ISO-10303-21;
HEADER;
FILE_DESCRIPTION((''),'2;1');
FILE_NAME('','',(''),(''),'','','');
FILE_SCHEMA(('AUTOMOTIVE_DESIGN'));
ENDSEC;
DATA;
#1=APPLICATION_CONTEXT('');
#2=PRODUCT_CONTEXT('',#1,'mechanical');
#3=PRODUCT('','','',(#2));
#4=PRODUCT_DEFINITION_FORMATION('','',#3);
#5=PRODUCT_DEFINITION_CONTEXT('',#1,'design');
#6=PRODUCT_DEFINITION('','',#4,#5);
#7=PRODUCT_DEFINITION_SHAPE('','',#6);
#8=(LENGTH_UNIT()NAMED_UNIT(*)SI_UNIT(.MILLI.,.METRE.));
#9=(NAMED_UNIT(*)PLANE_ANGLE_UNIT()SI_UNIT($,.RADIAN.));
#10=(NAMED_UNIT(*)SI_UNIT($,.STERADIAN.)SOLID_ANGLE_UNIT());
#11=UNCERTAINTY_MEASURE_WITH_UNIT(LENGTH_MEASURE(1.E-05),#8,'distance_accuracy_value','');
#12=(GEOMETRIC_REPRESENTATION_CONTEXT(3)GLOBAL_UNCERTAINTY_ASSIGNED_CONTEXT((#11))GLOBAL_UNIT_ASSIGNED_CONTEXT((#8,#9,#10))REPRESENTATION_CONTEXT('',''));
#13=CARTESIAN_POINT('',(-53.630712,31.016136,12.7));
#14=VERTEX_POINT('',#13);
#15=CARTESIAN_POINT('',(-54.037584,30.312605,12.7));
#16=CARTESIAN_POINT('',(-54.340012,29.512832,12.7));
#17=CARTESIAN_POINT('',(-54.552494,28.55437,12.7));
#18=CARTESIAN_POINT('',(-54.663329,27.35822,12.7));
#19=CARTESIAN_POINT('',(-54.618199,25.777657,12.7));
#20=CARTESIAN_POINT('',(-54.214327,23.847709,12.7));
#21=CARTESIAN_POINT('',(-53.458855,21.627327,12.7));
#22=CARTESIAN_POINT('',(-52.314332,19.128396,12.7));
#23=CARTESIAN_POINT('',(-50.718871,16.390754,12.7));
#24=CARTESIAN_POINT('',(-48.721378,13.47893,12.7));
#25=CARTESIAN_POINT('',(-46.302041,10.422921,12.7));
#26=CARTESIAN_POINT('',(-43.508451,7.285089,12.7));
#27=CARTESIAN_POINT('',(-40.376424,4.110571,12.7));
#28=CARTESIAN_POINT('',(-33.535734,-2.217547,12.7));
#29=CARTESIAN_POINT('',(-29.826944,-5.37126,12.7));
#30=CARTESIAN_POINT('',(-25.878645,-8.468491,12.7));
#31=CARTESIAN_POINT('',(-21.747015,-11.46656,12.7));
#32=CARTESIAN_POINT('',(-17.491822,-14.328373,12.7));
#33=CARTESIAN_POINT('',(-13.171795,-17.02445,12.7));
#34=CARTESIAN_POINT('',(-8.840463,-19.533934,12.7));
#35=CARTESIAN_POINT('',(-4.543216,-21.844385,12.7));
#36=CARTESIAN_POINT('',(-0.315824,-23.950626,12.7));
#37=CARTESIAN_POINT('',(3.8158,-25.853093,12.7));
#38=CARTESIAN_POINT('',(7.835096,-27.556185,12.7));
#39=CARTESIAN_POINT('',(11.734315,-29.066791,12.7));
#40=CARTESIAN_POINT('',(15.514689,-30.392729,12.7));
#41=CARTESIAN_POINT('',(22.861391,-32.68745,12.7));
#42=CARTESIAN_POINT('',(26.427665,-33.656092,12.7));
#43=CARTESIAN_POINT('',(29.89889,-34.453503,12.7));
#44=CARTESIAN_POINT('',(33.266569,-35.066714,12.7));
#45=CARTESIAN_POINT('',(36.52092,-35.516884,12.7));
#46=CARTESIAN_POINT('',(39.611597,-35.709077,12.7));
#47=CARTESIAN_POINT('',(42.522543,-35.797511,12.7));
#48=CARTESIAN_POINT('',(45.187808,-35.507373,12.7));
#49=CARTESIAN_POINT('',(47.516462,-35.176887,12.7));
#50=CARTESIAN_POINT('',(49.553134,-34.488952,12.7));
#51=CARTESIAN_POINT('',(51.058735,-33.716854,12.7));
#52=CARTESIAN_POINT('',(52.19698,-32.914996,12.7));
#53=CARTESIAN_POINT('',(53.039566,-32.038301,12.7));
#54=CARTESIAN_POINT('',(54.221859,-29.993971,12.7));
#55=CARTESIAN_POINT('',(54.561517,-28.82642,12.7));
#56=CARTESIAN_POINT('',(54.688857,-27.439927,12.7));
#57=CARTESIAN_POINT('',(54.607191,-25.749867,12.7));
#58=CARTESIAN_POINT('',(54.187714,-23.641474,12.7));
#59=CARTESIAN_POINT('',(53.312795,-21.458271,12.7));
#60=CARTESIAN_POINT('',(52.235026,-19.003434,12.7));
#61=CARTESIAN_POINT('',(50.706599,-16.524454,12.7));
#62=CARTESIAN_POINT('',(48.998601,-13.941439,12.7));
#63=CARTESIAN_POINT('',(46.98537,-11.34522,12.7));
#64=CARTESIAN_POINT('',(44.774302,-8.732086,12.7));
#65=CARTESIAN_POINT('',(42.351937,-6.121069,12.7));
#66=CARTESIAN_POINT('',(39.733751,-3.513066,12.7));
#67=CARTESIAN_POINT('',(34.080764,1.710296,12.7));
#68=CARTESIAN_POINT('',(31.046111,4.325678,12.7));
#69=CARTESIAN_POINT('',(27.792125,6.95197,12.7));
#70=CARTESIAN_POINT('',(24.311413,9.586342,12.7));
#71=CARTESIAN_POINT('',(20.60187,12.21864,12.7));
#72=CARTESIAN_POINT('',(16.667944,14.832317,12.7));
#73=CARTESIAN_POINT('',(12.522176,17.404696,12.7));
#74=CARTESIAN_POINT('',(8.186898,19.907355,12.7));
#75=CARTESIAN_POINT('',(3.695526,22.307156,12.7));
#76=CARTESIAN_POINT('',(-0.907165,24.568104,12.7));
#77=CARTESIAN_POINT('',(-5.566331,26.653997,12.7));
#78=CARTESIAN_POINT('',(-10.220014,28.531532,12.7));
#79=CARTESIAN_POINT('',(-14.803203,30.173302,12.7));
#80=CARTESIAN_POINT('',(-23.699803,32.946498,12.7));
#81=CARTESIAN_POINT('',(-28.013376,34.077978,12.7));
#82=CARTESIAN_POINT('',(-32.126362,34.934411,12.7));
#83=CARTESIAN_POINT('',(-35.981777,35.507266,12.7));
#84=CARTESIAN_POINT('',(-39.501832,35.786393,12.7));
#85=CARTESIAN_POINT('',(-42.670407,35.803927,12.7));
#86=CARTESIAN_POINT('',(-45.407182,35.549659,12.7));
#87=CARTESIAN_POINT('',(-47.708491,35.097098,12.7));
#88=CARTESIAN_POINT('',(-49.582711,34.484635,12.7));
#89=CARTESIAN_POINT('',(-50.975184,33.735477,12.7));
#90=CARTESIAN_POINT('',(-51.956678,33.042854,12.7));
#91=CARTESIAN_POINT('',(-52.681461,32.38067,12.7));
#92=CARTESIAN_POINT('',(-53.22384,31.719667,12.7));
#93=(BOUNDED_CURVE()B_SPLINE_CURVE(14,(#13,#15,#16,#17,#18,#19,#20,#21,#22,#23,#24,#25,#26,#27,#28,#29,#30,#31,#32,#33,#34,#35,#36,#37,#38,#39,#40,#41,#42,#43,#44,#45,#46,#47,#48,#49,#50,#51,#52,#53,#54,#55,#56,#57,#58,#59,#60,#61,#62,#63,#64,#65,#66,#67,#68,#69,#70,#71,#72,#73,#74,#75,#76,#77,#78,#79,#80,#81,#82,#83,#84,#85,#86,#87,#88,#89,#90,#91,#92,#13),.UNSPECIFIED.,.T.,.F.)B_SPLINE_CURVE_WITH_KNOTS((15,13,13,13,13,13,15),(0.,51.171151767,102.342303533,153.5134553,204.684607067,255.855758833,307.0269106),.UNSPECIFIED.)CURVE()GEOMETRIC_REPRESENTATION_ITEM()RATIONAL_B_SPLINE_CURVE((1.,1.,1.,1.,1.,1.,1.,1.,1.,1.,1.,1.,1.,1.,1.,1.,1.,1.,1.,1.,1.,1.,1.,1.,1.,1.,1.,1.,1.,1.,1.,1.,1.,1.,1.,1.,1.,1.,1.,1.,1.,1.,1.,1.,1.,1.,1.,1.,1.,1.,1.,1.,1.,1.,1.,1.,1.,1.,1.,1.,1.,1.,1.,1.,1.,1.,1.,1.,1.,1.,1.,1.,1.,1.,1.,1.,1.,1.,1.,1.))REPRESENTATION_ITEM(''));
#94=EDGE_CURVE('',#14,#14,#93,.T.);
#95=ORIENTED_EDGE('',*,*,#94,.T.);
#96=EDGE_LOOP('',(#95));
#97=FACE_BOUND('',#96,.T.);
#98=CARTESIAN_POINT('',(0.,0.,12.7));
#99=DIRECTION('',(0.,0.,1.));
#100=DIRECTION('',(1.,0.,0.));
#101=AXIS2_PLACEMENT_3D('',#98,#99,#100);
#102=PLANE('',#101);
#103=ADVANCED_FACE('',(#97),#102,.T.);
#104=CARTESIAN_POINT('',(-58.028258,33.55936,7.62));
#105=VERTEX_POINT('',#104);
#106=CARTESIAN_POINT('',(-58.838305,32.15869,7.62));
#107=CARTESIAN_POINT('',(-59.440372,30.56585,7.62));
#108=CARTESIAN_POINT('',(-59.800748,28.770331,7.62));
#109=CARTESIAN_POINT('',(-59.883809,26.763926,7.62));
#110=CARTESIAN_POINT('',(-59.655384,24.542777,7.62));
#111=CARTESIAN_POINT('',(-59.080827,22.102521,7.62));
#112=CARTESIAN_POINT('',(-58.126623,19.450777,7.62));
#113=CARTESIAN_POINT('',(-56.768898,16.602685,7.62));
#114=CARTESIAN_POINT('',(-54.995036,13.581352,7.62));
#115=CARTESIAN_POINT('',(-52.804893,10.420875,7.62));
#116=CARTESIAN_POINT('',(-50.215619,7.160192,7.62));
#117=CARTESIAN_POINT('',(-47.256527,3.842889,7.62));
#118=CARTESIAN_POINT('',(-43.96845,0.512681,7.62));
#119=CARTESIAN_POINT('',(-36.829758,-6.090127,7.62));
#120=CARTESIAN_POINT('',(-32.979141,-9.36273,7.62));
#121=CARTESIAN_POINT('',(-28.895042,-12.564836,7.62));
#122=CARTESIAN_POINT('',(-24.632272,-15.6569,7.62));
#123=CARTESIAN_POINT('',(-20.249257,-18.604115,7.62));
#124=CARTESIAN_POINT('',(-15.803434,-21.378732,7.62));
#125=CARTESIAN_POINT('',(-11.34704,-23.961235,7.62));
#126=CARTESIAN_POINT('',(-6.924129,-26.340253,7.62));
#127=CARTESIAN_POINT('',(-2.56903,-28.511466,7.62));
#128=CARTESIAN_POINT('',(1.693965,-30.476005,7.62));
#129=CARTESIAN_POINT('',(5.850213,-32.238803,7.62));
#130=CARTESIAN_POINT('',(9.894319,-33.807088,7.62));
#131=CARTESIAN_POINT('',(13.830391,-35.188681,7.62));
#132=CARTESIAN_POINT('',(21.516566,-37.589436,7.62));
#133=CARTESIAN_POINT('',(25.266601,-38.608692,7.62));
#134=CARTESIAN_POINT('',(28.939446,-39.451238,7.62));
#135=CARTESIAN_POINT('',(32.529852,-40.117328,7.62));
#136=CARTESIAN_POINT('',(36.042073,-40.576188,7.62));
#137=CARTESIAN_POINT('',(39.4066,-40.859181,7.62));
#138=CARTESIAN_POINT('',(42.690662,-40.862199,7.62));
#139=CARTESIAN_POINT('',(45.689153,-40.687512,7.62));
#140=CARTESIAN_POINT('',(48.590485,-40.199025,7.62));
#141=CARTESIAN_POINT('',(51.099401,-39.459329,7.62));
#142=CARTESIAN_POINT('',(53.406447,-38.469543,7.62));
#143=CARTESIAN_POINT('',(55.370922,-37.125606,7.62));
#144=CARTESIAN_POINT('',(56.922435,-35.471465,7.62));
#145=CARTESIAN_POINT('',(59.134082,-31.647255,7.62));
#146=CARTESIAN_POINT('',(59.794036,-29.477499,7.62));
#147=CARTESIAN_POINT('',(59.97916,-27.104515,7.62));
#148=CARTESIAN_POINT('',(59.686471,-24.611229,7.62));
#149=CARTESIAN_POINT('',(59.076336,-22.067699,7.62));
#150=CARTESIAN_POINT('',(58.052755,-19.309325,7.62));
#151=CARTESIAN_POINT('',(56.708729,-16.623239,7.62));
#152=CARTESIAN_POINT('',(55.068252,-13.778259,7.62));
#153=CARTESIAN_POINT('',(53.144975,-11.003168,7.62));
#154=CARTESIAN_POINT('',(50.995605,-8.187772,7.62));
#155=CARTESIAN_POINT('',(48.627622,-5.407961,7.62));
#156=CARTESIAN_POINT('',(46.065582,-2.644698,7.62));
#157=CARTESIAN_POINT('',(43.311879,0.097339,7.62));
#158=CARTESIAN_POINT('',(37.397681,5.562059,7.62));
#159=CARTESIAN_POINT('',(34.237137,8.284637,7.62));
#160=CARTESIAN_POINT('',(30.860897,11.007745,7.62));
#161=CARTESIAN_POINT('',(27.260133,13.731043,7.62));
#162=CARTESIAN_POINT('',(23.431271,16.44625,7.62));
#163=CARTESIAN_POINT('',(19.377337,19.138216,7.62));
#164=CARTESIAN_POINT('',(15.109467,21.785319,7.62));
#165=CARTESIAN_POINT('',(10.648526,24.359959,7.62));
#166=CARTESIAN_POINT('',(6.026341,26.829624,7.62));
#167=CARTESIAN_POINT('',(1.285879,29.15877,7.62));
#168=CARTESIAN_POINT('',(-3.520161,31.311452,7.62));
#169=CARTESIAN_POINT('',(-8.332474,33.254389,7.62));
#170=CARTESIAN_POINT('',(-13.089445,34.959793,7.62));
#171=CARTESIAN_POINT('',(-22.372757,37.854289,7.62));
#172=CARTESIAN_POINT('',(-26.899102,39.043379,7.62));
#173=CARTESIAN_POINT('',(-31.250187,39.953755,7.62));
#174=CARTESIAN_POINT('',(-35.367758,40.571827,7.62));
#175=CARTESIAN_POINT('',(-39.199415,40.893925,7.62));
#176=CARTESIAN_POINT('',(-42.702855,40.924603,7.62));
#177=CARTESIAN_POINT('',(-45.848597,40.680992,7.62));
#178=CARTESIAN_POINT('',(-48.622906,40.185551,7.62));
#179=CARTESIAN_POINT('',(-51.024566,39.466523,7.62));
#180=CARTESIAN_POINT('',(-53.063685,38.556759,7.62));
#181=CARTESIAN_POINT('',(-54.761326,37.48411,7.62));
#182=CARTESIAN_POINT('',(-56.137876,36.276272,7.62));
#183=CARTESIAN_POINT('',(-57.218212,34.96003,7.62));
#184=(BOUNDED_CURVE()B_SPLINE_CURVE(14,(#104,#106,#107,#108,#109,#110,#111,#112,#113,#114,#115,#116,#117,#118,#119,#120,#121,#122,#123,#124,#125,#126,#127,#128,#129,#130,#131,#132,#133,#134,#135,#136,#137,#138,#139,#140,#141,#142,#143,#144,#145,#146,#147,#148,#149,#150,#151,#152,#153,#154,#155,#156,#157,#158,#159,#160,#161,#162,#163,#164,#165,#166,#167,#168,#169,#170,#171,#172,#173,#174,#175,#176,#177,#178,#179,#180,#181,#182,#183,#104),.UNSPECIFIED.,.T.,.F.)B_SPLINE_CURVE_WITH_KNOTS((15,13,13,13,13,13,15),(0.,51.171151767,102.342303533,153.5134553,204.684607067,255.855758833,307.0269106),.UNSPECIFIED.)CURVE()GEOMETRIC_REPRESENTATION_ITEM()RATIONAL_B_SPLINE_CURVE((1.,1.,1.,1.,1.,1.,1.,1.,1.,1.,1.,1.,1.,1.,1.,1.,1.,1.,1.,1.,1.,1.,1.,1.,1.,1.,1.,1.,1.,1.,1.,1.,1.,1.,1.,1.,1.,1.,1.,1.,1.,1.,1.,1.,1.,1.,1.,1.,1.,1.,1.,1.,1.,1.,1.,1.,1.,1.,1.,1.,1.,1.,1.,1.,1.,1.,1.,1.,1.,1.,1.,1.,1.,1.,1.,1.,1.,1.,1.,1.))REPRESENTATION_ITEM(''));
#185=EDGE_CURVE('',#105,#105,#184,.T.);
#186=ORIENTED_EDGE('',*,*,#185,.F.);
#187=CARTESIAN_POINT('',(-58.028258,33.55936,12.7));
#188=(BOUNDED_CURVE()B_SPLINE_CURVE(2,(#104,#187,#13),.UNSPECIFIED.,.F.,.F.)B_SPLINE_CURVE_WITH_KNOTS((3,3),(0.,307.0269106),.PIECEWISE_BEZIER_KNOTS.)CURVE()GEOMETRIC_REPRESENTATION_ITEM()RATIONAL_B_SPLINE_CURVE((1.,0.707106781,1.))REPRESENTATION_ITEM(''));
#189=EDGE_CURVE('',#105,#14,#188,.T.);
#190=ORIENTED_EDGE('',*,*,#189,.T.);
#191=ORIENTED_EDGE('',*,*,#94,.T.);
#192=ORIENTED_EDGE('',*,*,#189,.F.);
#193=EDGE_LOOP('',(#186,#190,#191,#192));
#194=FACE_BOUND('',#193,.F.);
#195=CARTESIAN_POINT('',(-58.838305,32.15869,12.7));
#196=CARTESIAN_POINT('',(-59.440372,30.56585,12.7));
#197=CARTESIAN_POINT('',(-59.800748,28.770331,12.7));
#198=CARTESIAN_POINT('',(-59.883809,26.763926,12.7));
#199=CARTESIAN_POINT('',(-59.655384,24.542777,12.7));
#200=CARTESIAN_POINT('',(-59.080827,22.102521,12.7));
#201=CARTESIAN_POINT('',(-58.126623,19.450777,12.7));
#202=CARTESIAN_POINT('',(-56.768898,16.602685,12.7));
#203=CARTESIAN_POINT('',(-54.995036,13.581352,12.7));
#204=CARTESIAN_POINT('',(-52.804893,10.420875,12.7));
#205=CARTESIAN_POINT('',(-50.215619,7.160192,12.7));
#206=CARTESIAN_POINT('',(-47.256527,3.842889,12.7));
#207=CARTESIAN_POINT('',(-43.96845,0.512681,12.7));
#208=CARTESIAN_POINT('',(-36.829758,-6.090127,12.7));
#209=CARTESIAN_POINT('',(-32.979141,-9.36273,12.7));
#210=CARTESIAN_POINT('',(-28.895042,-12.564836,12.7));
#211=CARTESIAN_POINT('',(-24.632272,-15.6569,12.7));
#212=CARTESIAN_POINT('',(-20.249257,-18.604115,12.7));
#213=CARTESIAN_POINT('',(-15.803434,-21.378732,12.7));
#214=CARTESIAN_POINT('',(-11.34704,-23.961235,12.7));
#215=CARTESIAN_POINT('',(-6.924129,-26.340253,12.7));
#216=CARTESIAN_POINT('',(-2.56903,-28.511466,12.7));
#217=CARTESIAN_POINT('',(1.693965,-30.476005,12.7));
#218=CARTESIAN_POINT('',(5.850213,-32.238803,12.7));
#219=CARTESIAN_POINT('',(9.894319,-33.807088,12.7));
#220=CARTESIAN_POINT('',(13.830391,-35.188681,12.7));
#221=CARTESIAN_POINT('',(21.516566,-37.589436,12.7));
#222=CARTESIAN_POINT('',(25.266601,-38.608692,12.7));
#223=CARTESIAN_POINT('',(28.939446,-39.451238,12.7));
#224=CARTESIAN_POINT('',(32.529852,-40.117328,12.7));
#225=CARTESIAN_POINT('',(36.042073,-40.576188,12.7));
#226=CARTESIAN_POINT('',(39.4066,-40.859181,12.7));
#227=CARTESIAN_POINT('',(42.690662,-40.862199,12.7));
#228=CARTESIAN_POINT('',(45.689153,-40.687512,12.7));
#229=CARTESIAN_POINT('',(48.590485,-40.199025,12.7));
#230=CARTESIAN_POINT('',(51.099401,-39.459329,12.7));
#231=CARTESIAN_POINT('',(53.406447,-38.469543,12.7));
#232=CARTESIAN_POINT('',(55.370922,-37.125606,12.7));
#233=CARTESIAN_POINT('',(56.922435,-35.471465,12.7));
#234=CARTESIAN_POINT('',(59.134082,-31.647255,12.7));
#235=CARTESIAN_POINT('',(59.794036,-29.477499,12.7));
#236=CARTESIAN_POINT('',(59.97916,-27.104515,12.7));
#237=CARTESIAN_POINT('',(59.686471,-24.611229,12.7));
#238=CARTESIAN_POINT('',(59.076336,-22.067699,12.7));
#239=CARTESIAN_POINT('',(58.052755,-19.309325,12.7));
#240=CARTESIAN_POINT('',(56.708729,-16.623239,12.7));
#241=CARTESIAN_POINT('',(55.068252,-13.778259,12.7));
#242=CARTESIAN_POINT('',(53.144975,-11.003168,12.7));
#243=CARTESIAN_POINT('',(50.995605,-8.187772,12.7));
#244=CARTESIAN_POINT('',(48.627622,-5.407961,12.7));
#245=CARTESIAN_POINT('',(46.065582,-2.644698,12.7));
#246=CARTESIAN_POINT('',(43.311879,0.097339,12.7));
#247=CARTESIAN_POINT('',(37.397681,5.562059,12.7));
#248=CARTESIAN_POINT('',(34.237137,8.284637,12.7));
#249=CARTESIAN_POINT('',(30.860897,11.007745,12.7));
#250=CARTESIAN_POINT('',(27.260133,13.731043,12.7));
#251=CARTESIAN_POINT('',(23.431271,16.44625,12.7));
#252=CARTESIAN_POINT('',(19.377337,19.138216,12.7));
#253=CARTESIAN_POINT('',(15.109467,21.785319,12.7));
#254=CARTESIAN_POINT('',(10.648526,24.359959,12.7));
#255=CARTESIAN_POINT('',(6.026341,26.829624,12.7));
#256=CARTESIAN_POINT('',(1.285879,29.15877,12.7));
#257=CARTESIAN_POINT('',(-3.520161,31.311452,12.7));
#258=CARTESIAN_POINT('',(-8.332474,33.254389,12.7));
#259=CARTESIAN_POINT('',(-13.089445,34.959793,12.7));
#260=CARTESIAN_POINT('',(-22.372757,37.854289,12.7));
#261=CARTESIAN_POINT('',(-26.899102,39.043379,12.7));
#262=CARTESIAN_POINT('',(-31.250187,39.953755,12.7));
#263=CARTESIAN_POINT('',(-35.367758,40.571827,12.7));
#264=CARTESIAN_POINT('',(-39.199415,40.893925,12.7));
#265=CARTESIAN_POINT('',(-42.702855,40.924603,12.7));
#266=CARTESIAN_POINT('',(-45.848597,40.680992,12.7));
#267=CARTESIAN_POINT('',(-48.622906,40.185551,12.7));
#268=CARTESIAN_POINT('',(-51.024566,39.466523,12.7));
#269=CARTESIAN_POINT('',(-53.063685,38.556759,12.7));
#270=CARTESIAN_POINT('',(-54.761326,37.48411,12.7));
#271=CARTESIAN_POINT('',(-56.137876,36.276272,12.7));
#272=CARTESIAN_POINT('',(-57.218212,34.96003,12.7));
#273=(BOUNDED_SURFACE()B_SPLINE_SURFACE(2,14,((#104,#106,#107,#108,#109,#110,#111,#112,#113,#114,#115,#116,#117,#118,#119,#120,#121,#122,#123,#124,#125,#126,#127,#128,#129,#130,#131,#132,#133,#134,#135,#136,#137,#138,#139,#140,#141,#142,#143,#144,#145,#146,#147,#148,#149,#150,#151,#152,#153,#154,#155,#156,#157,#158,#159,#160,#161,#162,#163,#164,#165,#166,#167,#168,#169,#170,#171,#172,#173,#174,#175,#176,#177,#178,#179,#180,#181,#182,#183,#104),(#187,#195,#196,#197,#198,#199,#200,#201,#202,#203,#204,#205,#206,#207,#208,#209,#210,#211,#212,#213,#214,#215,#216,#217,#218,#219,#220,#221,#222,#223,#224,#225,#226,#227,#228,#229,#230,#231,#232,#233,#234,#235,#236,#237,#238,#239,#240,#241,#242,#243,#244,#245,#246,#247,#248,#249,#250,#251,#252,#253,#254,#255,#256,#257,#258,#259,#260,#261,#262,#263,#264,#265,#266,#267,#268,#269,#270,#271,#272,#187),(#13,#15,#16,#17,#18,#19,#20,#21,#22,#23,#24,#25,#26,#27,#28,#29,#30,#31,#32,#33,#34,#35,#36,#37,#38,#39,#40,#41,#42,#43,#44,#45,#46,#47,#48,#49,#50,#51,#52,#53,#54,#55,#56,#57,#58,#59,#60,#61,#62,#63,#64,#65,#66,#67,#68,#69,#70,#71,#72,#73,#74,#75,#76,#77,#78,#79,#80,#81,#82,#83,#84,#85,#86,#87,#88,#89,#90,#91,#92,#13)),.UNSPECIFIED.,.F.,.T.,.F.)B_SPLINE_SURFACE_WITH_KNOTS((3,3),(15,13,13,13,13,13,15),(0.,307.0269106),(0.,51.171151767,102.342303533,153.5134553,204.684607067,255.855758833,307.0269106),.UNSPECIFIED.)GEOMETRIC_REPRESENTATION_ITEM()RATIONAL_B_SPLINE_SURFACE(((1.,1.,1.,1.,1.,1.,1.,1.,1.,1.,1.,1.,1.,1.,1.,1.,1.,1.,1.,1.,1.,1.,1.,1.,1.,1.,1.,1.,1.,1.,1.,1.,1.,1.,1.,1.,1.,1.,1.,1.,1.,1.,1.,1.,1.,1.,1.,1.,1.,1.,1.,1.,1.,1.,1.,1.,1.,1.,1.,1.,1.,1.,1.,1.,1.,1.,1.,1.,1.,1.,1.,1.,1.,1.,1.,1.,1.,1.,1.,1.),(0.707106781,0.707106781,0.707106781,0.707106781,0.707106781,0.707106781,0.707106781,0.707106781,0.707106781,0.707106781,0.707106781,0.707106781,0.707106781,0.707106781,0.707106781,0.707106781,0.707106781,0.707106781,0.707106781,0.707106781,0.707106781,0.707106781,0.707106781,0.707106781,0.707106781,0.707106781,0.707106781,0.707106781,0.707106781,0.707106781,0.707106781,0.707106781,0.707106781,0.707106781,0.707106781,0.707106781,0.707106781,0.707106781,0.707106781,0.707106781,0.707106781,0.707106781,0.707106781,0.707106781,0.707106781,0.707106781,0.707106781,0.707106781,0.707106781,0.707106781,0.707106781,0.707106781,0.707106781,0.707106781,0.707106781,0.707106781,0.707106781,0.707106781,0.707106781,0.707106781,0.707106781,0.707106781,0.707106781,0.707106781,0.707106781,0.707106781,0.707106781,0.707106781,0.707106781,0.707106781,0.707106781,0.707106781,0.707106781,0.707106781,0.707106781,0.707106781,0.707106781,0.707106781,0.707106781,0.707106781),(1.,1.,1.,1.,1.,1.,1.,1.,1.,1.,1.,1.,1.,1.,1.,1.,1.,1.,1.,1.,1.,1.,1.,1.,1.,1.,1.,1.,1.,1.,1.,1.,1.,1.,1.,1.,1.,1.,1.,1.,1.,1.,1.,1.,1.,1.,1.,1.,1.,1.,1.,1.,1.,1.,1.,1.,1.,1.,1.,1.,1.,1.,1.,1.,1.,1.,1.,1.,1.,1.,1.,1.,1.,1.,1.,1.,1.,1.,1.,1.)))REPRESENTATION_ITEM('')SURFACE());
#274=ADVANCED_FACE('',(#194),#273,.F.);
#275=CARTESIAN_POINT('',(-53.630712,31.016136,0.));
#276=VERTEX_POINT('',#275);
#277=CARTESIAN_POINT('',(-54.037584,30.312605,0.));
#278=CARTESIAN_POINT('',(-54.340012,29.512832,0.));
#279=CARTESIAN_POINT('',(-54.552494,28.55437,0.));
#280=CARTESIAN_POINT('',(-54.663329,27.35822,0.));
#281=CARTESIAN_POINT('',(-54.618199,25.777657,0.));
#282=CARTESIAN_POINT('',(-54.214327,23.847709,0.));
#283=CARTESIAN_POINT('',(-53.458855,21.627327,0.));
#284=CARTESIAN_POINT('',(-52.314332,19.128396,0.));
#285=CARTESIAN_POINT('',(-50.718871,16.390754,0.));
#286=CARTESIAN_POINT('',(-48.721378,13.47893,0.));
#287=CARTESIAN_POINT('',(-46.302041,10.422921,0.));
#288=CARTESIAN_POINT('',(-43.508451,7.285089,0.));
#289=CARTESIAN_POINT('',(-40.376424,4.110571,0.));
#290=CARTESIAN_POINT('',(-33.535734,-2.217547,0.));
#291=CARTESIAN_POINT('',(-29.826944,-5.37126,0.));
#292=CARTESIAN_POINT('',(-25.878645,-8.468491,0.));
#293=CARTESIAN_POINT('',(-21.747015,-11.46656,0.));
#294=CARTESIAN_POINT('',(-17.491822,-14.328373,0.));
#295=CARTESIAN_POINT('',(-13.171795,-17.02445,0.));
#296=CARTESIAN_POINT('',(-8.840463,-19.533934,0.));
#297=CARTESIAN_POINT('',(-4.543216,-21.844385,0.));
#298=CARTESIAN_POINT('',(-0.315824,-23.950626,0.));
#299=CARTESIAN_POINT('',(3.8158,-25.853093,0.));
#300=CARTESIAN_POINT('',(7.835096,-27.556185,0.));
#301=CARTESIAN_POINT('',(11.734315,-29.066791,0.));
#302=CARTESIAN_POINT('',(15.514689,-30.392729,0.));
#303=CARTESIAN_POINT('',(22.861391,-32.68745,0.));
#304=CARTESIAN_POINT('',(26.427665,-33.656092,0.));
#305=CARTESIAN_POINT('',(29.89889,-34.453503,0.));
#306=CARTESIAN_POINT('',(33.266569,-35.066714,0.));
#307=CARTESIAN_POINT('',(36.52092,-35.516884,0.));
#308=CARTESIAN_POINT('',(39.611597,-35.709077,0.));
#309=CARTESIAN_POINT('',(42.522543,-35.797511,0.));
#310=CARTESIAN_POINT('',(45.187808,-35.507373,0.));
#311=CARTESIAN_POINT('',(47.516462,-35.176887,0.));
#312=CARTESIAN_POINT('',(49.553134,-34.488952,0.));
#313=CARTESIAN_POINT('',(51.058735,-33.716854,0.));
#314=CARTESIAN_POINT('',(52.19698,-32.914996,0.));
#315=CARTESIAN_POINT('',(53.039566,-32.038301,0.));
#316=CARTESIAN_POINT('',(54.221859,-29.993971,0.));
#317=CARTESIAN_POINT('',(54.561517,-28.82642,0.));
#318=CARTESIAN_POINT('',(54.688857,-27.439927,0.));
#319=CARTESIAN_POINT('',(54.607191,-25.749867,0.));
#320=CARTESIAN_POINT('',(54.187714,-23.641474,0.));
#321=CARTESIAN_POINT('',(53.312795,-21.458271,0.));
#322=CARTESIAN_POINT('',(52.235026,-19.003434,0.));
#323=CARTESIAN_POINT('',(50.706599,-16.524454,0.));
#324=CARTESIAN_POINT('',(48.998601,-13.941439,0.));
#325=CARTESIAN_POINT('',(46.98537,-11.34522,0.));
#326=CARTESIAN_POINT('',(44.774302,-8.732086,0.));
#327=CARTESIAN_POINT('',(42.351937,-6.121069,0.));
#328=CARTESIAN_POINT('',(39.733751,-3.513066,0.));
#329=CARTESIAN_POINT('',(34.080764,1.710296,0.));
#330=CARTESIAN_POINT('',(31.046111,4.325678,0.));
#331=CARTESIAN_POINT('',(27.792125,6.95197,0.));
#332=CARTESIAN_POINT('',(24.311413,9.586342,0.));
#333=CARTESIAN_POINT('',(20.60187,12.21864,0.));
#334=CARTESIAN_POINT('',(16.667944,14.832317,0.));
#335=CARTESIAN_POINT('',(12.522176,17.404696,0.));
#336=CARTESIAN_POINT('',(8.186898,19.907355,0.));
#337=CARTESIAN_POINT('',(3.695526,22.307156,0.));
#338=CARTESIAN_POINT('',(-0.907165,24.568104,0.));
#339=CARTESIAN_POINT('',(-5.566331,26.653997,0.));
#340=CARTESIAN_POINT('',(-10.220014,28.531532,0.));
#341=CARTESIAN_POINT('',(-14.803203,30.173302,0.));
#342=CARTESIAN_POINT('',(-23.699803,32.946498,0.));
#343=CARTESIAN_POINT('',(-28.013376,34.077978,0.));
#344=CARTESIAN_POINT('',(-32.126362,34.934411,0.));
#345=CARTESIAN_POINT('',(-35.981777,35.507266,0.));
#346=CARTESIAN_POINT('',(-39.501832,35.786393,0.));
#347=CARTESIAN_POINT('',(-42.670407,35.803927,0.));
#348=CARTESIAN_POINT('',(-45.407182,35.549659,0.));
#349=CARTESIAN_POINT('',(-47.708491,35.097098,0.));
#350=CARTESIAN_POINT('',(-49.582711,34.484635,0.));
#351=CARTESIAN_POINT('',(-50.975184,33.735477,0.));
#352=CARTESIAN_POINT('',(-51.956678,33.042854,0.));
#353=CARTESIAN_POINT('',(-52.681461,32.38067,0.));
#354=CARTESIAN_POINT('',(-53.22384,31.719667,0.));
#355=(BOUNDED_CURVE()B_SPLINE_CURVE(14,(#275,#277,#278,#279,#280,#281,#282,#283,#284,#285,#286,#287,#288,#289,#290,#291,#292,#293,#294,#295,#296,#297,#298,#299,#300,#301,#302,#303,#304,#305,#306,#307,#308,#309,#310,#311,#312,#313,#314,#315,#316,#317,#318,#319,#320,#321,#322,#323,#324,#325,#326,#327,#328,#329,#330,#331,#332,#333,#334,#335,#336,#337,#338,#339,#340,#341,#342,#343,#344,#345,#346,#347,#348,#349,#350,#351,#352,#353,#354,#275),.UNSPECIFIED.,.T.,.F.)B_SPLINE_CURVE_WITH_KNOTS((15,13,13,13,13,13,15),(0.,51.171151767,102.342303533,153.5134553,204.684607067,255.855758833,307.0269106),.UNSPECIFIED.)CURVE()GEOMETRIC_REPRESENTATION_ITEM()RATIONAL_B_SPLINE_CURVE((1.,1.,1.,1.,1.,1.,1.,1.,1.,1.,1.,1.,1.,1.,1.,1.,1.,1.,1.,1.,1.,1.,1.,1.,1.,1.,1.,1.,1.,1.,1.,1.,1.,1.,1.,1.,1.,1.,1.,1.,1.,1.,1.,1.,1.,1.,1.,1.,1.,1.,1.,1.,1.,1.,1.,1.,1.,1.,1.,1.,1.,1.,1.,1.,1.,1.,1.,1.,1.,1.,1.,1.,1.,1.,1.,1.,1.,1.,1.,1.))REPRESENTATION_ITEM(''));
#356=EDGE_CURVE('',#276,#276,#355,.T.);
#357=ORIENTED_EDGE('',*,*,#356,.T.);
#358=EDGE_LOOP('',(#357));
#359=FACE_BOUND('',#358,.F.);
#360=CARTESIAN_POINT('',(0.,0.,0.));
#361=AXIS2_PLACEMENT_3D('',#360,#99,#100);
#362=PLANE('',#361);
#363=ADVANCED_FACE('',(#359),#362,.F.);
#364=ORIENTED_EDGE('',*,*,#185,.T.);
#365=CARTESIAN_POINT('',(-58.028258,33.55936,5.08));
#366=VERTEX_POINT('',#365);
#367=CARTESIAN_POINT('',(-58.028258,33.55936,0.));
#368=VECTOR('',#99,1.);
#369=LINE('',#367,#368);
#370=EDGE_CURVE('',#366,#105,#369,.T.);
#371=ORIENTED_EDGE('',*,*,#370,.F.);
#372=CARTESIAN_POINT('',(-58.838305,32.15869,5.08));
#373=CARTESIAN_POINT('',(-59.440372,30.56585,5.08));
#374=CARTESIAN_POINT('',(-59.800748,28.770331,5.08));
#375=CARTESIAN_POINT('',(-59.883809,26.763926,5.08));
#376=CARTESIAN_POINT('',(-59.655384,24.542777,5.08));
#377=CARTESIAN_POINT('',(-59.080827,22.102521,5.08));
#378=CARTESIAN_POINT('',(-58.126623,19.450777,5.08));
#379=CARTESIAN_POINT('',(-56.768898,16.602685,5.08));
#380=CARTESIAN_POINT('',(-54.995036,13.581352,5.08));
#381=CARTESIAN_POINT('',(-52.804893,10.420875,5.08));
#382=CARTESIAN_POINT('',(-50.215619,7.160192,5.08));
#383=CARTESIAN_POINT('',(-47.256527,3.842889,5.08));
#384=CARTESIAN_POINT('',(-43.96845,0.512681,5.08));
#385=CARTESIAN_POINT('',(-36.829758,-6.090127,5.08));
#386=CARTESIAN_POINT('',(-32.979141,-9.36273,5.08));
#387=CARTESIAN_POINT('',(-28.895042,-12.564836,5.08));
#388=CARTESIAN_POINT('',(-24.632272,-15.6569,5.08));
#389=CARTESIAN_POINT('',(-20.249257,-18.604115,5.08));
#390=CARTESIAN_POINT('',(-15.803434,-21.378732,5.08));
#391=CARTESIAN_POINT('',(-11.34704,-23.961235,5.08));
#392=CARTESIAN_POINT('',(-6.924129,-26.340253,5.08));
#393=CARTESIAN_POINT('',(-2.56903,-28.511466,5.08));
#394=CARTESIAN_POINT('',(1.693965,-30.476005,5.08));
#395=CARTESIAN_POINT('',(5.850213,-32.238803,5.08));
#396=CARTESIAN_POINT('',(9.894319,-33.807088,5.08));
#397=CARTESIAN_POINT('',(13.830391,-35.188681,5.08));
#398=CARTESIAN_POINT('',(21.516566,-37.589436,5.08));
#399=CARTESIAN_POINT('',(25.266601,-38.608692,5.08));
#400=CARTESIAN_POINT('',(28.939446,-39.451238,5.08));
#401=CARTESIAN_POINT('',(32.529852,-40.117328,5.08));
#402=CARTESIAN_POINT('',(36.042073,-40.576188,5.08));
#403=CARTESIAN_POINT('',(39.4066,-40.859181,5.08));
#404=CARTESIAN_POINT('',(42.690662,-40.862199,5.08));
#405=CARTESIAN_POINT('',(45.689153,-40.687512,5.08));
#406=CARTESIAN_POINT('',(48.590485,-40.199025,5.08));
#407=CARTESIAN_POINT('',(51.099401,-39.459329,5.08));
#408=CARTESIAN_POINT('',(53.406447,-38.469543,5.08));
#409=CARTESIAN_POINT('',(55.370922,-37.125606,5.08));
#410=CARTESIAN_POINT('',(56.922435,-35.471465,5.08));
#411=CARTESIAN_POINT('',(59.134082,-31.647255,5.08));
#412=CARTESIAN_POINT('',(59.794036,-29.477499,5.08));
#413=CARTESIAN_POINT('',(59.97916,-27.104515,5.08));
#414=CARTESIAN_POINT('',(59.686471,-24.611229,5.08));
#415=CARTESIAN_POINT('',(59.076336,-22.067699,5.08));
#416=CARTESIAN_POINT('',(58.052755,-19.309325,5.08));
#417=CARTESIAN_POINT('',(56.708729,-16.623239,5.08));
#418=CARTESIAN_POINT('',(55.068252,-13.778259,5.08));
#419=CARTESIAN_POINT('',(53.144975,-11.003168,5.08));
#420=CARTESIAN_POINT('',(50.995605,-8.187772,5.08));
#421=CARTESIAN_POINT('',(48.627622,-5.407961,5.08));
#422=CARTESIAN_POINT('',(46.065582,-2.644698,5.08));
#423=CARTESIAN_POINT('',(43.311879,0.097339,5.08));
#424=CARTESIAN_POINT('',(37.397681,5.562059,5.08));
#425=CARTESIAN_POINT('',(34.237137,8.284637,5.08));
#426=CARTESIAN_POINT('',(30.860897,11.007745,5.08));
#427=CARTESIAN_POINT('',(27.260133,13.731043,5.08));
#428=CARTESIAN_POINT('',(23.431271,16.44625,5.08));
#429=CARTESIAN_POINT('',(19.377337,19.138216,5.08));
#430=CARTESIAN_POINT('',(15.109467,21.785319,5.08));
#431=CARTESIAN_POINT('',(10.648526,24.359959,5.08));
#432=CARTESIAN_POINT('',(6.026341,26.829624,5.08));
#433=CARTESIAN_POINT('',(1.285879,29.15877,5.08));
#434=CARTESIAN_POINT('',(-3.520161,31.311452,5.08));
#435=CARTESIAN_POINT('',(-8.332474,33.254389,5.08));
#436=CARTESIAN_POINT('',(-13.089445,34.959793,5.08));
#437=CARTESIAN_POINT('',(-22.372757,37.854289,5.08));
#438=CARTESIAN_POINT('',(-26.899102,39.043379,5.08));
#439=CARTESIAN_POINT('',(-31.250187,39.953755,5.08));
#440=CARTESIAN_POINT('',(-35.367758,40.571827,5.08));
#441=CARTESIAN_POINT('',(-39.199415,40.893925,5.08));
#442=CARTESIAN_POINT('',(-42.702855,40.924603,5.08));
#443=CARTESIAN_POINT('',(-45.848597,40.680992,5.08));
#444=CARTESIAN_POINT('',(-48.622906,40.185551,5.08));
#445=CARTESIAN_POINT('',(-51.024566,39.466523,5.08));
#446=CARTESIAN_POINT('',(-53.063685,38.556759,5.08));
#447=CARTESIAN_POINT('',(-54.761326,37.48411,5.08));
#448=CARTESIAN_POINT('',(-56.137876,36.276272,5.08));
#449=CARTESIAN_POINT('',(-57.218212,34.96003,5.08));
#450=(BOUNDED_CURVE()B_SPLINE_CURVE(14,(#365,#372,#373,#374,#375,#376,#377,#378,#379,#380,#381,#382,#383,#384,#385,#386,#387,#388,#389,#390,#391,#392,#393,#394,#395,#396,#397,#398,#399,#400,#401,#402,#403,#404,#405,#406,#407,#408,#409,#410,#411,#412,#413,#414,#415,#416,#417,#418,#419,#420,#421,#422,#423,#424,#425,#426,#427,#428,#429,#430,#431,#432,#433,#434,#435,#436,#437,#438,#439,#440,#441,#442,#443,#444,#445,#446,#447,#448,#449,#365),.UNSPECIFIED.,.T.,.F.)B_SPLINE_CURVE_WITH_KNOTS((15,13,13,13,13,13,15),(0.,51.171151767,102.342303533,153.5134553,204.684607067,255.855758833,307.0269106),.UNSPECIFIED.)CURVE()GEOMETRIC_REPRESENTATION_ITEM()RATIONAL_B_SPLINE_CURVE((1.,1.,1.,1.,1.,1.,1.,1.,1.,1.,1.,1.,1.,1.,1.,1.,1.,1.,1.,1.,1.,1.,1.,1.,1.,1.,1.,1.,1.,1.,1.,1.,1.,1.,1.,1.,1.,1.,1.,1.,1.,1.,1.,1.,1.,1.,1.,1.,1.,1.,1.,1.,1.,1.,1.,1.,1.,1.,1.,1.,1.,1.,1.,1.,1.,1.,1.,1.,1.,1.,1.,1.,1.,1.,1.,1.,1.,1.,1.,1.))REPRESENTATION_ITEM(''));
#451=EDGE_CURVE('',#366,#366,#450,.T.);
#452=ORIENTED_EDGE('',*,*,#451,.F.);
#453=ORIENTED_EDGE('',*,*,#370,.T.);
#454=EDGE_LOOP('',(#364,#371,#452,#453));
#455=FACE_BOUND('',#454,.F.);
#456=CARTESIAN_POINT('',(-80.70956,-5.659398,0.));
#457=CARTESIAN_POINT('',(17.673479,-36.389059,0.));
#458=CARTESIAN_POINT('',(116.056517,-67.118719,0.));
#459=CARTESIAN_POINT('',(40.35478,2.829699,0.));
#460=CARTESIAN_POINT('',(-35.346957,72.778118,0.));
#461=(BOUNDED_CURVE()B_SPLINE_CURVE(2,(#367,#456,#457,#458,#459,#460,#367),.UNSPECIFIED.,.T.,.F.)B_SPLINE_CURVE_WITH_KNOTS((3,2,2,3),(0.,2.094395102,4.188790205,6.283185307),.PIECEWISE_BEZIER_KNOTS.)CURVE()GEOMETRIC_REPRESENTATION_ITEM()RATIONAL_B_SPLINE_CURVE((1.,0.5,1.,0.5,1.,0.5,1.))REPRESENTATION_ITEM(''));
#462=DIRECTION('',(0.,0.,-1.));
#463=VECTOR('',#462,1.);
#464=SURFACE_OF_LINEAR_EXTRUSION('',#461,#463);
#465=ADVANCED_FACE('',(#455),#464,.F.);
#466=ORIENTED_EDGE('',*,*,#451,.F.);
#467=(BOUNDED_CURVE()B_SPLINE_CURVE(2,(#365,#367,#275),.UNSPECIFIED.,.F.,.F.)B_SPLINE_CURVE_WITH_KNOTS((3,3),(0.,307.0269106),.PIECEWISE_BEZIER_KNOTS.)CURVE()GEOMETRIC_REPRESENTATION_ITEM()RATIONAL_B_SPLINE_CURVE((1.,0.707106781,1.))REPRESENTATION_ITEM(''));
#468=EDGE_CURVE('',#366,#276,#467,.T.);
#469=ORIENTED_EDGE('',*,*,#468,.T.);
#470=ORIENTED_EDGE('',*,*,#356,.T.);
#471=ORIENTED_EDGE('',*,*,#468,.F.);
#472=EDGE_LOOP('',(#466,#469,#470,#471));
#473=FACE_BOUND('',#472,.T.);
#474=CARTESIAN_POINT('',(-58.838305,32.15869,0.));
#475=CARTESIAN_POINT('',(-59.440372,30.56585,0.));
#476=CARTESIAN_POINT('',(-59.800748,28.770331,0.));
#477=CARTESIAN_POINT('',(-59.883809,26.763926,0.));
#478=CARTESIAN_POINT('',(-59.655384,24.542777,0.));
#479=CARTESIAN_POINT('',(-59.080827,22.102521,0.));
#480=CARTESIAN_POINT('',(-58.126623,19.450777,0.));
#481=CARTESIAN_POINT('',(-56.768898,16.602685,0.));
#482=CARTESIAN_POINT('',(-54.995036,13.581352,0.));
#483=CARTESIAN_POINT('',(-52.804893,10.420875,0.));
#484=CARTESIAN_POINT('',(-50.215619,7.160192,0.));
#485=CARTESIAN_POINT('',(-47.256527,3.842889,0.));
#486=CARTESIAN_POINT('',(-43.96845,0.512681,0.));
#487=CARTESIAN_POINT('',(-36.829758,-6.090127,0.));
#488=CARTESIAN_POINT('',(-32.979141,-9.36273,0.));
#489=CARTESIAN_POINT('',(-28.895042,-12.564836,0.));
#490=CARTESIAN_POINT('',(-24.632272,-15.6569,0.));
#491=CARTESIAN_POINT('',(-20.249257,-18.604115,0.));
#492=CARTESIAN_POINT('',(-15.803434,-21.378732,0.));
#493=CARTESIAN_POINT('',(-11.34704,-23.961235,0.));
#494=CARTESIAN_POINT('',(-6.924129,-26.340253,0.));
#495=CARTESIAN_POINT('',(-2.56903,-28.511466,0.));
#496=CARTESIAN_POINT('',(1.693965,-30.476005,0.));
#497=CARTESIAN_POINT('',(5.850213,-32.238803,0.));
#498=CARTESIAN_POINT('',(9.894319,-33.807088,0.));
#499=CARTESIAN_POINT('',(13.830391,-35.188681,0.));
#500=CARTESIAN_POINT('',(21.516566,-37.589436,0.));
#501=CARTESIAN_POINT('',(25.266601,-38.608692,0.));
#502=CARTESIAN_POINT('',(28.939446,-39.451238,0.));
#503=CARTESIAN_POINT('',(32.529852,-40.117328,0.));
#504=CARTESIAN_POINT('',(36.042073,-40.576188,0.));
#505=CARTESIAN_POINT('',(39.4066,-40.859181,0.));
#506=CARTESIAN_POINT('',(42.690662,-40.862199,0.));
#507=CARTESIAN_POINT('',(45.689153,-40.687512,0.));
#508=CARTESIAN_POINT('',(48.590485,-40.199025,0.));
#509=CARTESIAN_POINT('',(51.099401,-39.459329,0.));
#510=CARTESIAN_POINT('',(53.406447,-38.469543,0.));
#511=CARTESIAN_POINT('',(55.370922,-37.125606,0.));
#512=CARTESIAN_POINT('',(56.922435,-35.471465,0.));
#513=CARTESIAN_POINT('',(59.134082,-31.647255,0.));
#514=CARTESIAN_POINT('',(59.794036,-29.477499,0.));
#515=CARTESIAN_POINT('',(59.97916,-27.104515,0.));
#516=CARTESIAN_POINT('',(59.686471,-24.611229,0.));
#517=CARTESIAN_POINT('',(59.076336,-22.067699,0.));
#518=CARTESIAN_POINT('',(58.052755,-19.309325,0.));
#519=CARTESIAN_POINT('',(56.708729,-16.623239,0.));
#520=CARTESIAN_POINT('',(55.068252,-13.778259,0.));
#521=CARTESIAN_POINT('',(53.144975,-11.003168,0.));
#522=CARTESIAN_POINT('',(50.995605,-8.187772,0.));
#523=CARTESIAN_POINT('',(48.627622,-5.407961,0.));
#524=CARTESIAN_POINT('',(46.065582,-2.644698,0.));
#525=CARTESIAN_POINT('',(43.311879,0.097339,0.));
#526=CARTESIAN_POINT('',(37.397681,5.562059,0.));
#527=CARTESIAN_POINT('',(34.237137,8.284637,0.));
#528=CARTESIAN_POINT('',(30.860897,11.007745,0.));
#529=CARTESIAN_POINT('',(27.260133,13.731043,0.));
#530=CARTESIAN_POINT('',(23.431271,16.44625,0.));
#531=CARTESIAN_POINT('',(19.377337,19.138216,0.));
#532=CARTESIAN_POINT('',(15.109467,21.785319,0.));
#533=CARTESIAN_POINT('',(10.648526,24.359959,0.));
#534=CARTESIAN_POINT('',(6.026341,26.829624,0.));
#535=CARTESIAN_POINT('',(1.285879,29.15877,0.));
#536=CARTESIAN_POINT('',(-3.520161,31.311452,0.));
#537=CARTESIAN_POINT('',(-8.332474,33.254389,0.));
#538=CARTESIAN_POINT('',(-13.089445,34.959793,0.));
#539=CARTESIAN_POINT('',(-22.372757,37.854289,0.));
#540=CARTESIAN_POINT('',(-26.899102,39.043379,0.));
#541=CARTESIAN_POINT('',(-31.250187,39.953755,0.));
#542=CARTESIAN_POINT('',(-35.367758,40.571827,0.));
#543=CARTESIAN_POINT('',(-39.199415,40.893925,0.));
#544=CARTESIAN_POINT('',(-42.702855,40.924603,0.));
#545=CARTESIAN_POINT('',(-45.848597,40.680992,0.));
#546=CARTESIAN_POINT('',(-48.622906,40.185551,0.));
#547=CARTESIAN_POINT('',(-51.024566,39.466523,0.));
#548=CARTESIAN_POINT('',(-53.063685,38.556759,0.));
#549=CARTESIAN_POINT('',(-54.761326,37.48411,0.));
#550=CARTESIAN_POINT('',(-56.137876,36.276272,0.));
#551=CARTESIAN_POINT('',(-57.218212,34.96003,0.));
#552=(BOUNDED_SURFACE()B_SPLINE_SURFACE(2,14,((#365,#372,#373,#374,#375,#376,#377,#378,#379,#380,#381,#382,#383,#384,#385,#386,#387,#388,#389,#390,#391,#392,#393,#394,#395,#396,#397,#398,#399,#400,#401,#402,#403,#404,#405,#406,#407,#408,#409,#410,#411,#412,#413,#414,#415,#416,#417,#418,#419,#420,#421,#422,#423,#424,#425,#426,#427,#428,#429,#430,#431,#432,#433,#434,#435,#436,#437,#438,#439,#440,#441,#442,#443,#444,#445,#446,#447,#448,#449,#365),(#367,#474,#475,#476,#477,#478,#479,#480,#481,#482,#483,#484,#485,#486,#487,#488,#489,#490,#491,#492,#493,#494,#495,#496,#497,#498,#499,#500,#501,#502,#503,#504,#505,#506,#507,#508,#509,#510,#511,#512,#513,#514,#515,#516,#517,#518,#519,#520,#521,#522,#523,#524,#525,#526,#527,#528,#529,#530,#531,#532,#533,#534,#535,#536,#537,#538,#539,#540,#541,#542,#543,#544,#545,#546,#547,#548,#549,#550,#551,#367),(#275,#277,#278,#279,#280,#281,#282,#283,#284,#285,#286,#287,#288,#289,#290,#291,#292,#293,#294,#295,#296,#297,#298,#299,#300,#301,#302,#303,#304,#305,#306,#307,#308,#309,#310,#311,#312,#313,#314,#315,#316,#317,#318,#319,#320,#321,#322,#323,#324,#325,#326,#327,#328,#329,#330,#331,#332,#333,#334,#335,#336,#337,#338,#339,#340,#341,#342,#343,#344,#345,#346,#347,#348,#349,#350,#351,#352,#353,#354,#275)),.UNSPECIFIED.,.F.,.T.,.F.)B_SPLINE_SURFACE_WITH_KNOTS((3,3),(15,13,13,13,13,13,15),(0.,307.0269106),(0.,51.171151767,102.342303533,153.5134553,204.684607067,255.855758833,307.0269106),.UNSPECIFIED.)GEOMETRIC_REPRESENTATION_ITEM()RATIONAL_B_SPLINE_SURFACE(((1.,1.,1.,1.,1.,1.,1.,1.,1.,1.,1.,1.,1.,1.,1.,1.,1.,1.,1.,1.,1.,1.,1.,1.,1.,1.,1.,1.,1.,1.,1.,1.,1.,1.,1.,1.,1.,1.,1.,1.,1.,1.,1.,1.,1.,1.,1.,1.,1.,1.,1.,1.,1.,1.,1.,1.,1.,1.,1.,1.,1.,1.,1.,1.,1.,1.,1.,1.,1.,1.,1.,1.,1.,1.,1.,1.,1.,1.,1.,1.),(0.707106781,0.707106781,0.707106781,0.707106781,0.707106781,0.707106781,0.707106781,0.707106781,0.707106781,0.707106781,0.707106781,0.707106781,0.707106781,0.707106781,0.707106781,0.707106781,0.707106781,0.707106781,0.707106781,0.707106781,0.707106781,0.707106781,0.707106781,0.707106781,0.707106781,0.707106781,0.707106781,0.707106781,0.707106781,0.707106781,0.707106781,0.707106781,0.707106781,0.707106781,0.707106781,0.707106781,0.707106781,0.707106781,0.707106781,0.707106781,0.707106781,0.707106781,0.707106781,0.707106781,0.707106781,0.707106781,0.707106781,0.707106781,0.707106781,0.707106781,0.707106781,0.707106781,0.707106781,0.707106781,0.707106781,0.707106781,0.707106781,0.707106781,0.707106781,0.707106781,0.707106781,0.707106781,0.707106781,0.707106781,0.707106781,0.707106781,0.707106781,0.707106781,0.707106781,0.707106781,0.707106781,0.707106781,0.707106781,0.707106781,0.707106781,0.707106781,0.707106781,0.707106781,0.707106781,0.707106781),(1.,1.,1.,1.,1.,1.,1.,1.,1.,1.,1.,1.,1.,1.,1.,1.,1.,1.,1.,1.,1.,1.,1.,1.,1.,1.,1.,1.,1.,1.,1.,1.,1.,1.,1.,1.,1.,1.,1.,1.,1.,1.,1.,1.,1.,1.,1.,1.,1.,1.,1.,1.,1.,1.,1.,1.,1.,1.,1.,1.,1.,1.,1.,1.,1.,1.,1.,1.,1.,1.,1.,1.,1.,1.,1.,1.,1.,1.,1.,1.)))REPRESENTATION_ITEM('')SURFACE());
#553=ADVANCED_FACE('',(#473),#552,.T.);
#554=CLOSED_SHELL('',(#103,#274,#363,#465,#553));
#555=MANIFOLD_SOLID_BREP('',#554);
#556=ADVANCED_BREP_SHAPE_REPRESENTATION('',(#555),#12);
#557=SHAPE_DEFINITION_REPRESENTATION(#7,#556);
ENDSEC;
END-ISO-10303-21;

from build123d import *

# Parameters (mm, degrees)
F1_DEPTH = 12.7
F2_R     = 5.08
F3_R     = 5.08


with BuildPart() as f1:
    # F0 (on Top) → F1 (new body)
    with BuildSketch(Plane.XY):
        with BuildLine():
            add(Edge.make_bspline(
                [(-58.0282583833, 33.5593596101), (-80.7095595585, -5.659398446), (17.673478604, -36.3890588331), (116.0565167665, -67.1187192202), (40.3547797793, 2.829699223), (-35.346957208, 72.7781176662), (-58.0282583833, 33.5593596101)],
                knots=[0, 0, 0, 2.0943951024, 2.0943951024, 4.1887902048, 4.1887902048, 6.2831853072, 6.2831853072, 6.2831853072], degree=2, weights=[1, 0.5, 1, 0.5, 1, 0.5, 1]))
        make_face()
    extrude(amount=F1_DEPTH)

    # F2
    f2_edges = [f1.edges().sort_by_distance(p)[0] for p in [
        (58.028205, -33.559452, 12.7),
    ]]
    fillet(f2_edges, radius=F2_R)

    # F3
    f3_edges = [f1.edges().sort_by_distance(p)[0] for p in [
        (58.028205, -33.559452, 0),
    ]]
    fillet(f3_edges, radius=F3_R)


solid = f1.part
